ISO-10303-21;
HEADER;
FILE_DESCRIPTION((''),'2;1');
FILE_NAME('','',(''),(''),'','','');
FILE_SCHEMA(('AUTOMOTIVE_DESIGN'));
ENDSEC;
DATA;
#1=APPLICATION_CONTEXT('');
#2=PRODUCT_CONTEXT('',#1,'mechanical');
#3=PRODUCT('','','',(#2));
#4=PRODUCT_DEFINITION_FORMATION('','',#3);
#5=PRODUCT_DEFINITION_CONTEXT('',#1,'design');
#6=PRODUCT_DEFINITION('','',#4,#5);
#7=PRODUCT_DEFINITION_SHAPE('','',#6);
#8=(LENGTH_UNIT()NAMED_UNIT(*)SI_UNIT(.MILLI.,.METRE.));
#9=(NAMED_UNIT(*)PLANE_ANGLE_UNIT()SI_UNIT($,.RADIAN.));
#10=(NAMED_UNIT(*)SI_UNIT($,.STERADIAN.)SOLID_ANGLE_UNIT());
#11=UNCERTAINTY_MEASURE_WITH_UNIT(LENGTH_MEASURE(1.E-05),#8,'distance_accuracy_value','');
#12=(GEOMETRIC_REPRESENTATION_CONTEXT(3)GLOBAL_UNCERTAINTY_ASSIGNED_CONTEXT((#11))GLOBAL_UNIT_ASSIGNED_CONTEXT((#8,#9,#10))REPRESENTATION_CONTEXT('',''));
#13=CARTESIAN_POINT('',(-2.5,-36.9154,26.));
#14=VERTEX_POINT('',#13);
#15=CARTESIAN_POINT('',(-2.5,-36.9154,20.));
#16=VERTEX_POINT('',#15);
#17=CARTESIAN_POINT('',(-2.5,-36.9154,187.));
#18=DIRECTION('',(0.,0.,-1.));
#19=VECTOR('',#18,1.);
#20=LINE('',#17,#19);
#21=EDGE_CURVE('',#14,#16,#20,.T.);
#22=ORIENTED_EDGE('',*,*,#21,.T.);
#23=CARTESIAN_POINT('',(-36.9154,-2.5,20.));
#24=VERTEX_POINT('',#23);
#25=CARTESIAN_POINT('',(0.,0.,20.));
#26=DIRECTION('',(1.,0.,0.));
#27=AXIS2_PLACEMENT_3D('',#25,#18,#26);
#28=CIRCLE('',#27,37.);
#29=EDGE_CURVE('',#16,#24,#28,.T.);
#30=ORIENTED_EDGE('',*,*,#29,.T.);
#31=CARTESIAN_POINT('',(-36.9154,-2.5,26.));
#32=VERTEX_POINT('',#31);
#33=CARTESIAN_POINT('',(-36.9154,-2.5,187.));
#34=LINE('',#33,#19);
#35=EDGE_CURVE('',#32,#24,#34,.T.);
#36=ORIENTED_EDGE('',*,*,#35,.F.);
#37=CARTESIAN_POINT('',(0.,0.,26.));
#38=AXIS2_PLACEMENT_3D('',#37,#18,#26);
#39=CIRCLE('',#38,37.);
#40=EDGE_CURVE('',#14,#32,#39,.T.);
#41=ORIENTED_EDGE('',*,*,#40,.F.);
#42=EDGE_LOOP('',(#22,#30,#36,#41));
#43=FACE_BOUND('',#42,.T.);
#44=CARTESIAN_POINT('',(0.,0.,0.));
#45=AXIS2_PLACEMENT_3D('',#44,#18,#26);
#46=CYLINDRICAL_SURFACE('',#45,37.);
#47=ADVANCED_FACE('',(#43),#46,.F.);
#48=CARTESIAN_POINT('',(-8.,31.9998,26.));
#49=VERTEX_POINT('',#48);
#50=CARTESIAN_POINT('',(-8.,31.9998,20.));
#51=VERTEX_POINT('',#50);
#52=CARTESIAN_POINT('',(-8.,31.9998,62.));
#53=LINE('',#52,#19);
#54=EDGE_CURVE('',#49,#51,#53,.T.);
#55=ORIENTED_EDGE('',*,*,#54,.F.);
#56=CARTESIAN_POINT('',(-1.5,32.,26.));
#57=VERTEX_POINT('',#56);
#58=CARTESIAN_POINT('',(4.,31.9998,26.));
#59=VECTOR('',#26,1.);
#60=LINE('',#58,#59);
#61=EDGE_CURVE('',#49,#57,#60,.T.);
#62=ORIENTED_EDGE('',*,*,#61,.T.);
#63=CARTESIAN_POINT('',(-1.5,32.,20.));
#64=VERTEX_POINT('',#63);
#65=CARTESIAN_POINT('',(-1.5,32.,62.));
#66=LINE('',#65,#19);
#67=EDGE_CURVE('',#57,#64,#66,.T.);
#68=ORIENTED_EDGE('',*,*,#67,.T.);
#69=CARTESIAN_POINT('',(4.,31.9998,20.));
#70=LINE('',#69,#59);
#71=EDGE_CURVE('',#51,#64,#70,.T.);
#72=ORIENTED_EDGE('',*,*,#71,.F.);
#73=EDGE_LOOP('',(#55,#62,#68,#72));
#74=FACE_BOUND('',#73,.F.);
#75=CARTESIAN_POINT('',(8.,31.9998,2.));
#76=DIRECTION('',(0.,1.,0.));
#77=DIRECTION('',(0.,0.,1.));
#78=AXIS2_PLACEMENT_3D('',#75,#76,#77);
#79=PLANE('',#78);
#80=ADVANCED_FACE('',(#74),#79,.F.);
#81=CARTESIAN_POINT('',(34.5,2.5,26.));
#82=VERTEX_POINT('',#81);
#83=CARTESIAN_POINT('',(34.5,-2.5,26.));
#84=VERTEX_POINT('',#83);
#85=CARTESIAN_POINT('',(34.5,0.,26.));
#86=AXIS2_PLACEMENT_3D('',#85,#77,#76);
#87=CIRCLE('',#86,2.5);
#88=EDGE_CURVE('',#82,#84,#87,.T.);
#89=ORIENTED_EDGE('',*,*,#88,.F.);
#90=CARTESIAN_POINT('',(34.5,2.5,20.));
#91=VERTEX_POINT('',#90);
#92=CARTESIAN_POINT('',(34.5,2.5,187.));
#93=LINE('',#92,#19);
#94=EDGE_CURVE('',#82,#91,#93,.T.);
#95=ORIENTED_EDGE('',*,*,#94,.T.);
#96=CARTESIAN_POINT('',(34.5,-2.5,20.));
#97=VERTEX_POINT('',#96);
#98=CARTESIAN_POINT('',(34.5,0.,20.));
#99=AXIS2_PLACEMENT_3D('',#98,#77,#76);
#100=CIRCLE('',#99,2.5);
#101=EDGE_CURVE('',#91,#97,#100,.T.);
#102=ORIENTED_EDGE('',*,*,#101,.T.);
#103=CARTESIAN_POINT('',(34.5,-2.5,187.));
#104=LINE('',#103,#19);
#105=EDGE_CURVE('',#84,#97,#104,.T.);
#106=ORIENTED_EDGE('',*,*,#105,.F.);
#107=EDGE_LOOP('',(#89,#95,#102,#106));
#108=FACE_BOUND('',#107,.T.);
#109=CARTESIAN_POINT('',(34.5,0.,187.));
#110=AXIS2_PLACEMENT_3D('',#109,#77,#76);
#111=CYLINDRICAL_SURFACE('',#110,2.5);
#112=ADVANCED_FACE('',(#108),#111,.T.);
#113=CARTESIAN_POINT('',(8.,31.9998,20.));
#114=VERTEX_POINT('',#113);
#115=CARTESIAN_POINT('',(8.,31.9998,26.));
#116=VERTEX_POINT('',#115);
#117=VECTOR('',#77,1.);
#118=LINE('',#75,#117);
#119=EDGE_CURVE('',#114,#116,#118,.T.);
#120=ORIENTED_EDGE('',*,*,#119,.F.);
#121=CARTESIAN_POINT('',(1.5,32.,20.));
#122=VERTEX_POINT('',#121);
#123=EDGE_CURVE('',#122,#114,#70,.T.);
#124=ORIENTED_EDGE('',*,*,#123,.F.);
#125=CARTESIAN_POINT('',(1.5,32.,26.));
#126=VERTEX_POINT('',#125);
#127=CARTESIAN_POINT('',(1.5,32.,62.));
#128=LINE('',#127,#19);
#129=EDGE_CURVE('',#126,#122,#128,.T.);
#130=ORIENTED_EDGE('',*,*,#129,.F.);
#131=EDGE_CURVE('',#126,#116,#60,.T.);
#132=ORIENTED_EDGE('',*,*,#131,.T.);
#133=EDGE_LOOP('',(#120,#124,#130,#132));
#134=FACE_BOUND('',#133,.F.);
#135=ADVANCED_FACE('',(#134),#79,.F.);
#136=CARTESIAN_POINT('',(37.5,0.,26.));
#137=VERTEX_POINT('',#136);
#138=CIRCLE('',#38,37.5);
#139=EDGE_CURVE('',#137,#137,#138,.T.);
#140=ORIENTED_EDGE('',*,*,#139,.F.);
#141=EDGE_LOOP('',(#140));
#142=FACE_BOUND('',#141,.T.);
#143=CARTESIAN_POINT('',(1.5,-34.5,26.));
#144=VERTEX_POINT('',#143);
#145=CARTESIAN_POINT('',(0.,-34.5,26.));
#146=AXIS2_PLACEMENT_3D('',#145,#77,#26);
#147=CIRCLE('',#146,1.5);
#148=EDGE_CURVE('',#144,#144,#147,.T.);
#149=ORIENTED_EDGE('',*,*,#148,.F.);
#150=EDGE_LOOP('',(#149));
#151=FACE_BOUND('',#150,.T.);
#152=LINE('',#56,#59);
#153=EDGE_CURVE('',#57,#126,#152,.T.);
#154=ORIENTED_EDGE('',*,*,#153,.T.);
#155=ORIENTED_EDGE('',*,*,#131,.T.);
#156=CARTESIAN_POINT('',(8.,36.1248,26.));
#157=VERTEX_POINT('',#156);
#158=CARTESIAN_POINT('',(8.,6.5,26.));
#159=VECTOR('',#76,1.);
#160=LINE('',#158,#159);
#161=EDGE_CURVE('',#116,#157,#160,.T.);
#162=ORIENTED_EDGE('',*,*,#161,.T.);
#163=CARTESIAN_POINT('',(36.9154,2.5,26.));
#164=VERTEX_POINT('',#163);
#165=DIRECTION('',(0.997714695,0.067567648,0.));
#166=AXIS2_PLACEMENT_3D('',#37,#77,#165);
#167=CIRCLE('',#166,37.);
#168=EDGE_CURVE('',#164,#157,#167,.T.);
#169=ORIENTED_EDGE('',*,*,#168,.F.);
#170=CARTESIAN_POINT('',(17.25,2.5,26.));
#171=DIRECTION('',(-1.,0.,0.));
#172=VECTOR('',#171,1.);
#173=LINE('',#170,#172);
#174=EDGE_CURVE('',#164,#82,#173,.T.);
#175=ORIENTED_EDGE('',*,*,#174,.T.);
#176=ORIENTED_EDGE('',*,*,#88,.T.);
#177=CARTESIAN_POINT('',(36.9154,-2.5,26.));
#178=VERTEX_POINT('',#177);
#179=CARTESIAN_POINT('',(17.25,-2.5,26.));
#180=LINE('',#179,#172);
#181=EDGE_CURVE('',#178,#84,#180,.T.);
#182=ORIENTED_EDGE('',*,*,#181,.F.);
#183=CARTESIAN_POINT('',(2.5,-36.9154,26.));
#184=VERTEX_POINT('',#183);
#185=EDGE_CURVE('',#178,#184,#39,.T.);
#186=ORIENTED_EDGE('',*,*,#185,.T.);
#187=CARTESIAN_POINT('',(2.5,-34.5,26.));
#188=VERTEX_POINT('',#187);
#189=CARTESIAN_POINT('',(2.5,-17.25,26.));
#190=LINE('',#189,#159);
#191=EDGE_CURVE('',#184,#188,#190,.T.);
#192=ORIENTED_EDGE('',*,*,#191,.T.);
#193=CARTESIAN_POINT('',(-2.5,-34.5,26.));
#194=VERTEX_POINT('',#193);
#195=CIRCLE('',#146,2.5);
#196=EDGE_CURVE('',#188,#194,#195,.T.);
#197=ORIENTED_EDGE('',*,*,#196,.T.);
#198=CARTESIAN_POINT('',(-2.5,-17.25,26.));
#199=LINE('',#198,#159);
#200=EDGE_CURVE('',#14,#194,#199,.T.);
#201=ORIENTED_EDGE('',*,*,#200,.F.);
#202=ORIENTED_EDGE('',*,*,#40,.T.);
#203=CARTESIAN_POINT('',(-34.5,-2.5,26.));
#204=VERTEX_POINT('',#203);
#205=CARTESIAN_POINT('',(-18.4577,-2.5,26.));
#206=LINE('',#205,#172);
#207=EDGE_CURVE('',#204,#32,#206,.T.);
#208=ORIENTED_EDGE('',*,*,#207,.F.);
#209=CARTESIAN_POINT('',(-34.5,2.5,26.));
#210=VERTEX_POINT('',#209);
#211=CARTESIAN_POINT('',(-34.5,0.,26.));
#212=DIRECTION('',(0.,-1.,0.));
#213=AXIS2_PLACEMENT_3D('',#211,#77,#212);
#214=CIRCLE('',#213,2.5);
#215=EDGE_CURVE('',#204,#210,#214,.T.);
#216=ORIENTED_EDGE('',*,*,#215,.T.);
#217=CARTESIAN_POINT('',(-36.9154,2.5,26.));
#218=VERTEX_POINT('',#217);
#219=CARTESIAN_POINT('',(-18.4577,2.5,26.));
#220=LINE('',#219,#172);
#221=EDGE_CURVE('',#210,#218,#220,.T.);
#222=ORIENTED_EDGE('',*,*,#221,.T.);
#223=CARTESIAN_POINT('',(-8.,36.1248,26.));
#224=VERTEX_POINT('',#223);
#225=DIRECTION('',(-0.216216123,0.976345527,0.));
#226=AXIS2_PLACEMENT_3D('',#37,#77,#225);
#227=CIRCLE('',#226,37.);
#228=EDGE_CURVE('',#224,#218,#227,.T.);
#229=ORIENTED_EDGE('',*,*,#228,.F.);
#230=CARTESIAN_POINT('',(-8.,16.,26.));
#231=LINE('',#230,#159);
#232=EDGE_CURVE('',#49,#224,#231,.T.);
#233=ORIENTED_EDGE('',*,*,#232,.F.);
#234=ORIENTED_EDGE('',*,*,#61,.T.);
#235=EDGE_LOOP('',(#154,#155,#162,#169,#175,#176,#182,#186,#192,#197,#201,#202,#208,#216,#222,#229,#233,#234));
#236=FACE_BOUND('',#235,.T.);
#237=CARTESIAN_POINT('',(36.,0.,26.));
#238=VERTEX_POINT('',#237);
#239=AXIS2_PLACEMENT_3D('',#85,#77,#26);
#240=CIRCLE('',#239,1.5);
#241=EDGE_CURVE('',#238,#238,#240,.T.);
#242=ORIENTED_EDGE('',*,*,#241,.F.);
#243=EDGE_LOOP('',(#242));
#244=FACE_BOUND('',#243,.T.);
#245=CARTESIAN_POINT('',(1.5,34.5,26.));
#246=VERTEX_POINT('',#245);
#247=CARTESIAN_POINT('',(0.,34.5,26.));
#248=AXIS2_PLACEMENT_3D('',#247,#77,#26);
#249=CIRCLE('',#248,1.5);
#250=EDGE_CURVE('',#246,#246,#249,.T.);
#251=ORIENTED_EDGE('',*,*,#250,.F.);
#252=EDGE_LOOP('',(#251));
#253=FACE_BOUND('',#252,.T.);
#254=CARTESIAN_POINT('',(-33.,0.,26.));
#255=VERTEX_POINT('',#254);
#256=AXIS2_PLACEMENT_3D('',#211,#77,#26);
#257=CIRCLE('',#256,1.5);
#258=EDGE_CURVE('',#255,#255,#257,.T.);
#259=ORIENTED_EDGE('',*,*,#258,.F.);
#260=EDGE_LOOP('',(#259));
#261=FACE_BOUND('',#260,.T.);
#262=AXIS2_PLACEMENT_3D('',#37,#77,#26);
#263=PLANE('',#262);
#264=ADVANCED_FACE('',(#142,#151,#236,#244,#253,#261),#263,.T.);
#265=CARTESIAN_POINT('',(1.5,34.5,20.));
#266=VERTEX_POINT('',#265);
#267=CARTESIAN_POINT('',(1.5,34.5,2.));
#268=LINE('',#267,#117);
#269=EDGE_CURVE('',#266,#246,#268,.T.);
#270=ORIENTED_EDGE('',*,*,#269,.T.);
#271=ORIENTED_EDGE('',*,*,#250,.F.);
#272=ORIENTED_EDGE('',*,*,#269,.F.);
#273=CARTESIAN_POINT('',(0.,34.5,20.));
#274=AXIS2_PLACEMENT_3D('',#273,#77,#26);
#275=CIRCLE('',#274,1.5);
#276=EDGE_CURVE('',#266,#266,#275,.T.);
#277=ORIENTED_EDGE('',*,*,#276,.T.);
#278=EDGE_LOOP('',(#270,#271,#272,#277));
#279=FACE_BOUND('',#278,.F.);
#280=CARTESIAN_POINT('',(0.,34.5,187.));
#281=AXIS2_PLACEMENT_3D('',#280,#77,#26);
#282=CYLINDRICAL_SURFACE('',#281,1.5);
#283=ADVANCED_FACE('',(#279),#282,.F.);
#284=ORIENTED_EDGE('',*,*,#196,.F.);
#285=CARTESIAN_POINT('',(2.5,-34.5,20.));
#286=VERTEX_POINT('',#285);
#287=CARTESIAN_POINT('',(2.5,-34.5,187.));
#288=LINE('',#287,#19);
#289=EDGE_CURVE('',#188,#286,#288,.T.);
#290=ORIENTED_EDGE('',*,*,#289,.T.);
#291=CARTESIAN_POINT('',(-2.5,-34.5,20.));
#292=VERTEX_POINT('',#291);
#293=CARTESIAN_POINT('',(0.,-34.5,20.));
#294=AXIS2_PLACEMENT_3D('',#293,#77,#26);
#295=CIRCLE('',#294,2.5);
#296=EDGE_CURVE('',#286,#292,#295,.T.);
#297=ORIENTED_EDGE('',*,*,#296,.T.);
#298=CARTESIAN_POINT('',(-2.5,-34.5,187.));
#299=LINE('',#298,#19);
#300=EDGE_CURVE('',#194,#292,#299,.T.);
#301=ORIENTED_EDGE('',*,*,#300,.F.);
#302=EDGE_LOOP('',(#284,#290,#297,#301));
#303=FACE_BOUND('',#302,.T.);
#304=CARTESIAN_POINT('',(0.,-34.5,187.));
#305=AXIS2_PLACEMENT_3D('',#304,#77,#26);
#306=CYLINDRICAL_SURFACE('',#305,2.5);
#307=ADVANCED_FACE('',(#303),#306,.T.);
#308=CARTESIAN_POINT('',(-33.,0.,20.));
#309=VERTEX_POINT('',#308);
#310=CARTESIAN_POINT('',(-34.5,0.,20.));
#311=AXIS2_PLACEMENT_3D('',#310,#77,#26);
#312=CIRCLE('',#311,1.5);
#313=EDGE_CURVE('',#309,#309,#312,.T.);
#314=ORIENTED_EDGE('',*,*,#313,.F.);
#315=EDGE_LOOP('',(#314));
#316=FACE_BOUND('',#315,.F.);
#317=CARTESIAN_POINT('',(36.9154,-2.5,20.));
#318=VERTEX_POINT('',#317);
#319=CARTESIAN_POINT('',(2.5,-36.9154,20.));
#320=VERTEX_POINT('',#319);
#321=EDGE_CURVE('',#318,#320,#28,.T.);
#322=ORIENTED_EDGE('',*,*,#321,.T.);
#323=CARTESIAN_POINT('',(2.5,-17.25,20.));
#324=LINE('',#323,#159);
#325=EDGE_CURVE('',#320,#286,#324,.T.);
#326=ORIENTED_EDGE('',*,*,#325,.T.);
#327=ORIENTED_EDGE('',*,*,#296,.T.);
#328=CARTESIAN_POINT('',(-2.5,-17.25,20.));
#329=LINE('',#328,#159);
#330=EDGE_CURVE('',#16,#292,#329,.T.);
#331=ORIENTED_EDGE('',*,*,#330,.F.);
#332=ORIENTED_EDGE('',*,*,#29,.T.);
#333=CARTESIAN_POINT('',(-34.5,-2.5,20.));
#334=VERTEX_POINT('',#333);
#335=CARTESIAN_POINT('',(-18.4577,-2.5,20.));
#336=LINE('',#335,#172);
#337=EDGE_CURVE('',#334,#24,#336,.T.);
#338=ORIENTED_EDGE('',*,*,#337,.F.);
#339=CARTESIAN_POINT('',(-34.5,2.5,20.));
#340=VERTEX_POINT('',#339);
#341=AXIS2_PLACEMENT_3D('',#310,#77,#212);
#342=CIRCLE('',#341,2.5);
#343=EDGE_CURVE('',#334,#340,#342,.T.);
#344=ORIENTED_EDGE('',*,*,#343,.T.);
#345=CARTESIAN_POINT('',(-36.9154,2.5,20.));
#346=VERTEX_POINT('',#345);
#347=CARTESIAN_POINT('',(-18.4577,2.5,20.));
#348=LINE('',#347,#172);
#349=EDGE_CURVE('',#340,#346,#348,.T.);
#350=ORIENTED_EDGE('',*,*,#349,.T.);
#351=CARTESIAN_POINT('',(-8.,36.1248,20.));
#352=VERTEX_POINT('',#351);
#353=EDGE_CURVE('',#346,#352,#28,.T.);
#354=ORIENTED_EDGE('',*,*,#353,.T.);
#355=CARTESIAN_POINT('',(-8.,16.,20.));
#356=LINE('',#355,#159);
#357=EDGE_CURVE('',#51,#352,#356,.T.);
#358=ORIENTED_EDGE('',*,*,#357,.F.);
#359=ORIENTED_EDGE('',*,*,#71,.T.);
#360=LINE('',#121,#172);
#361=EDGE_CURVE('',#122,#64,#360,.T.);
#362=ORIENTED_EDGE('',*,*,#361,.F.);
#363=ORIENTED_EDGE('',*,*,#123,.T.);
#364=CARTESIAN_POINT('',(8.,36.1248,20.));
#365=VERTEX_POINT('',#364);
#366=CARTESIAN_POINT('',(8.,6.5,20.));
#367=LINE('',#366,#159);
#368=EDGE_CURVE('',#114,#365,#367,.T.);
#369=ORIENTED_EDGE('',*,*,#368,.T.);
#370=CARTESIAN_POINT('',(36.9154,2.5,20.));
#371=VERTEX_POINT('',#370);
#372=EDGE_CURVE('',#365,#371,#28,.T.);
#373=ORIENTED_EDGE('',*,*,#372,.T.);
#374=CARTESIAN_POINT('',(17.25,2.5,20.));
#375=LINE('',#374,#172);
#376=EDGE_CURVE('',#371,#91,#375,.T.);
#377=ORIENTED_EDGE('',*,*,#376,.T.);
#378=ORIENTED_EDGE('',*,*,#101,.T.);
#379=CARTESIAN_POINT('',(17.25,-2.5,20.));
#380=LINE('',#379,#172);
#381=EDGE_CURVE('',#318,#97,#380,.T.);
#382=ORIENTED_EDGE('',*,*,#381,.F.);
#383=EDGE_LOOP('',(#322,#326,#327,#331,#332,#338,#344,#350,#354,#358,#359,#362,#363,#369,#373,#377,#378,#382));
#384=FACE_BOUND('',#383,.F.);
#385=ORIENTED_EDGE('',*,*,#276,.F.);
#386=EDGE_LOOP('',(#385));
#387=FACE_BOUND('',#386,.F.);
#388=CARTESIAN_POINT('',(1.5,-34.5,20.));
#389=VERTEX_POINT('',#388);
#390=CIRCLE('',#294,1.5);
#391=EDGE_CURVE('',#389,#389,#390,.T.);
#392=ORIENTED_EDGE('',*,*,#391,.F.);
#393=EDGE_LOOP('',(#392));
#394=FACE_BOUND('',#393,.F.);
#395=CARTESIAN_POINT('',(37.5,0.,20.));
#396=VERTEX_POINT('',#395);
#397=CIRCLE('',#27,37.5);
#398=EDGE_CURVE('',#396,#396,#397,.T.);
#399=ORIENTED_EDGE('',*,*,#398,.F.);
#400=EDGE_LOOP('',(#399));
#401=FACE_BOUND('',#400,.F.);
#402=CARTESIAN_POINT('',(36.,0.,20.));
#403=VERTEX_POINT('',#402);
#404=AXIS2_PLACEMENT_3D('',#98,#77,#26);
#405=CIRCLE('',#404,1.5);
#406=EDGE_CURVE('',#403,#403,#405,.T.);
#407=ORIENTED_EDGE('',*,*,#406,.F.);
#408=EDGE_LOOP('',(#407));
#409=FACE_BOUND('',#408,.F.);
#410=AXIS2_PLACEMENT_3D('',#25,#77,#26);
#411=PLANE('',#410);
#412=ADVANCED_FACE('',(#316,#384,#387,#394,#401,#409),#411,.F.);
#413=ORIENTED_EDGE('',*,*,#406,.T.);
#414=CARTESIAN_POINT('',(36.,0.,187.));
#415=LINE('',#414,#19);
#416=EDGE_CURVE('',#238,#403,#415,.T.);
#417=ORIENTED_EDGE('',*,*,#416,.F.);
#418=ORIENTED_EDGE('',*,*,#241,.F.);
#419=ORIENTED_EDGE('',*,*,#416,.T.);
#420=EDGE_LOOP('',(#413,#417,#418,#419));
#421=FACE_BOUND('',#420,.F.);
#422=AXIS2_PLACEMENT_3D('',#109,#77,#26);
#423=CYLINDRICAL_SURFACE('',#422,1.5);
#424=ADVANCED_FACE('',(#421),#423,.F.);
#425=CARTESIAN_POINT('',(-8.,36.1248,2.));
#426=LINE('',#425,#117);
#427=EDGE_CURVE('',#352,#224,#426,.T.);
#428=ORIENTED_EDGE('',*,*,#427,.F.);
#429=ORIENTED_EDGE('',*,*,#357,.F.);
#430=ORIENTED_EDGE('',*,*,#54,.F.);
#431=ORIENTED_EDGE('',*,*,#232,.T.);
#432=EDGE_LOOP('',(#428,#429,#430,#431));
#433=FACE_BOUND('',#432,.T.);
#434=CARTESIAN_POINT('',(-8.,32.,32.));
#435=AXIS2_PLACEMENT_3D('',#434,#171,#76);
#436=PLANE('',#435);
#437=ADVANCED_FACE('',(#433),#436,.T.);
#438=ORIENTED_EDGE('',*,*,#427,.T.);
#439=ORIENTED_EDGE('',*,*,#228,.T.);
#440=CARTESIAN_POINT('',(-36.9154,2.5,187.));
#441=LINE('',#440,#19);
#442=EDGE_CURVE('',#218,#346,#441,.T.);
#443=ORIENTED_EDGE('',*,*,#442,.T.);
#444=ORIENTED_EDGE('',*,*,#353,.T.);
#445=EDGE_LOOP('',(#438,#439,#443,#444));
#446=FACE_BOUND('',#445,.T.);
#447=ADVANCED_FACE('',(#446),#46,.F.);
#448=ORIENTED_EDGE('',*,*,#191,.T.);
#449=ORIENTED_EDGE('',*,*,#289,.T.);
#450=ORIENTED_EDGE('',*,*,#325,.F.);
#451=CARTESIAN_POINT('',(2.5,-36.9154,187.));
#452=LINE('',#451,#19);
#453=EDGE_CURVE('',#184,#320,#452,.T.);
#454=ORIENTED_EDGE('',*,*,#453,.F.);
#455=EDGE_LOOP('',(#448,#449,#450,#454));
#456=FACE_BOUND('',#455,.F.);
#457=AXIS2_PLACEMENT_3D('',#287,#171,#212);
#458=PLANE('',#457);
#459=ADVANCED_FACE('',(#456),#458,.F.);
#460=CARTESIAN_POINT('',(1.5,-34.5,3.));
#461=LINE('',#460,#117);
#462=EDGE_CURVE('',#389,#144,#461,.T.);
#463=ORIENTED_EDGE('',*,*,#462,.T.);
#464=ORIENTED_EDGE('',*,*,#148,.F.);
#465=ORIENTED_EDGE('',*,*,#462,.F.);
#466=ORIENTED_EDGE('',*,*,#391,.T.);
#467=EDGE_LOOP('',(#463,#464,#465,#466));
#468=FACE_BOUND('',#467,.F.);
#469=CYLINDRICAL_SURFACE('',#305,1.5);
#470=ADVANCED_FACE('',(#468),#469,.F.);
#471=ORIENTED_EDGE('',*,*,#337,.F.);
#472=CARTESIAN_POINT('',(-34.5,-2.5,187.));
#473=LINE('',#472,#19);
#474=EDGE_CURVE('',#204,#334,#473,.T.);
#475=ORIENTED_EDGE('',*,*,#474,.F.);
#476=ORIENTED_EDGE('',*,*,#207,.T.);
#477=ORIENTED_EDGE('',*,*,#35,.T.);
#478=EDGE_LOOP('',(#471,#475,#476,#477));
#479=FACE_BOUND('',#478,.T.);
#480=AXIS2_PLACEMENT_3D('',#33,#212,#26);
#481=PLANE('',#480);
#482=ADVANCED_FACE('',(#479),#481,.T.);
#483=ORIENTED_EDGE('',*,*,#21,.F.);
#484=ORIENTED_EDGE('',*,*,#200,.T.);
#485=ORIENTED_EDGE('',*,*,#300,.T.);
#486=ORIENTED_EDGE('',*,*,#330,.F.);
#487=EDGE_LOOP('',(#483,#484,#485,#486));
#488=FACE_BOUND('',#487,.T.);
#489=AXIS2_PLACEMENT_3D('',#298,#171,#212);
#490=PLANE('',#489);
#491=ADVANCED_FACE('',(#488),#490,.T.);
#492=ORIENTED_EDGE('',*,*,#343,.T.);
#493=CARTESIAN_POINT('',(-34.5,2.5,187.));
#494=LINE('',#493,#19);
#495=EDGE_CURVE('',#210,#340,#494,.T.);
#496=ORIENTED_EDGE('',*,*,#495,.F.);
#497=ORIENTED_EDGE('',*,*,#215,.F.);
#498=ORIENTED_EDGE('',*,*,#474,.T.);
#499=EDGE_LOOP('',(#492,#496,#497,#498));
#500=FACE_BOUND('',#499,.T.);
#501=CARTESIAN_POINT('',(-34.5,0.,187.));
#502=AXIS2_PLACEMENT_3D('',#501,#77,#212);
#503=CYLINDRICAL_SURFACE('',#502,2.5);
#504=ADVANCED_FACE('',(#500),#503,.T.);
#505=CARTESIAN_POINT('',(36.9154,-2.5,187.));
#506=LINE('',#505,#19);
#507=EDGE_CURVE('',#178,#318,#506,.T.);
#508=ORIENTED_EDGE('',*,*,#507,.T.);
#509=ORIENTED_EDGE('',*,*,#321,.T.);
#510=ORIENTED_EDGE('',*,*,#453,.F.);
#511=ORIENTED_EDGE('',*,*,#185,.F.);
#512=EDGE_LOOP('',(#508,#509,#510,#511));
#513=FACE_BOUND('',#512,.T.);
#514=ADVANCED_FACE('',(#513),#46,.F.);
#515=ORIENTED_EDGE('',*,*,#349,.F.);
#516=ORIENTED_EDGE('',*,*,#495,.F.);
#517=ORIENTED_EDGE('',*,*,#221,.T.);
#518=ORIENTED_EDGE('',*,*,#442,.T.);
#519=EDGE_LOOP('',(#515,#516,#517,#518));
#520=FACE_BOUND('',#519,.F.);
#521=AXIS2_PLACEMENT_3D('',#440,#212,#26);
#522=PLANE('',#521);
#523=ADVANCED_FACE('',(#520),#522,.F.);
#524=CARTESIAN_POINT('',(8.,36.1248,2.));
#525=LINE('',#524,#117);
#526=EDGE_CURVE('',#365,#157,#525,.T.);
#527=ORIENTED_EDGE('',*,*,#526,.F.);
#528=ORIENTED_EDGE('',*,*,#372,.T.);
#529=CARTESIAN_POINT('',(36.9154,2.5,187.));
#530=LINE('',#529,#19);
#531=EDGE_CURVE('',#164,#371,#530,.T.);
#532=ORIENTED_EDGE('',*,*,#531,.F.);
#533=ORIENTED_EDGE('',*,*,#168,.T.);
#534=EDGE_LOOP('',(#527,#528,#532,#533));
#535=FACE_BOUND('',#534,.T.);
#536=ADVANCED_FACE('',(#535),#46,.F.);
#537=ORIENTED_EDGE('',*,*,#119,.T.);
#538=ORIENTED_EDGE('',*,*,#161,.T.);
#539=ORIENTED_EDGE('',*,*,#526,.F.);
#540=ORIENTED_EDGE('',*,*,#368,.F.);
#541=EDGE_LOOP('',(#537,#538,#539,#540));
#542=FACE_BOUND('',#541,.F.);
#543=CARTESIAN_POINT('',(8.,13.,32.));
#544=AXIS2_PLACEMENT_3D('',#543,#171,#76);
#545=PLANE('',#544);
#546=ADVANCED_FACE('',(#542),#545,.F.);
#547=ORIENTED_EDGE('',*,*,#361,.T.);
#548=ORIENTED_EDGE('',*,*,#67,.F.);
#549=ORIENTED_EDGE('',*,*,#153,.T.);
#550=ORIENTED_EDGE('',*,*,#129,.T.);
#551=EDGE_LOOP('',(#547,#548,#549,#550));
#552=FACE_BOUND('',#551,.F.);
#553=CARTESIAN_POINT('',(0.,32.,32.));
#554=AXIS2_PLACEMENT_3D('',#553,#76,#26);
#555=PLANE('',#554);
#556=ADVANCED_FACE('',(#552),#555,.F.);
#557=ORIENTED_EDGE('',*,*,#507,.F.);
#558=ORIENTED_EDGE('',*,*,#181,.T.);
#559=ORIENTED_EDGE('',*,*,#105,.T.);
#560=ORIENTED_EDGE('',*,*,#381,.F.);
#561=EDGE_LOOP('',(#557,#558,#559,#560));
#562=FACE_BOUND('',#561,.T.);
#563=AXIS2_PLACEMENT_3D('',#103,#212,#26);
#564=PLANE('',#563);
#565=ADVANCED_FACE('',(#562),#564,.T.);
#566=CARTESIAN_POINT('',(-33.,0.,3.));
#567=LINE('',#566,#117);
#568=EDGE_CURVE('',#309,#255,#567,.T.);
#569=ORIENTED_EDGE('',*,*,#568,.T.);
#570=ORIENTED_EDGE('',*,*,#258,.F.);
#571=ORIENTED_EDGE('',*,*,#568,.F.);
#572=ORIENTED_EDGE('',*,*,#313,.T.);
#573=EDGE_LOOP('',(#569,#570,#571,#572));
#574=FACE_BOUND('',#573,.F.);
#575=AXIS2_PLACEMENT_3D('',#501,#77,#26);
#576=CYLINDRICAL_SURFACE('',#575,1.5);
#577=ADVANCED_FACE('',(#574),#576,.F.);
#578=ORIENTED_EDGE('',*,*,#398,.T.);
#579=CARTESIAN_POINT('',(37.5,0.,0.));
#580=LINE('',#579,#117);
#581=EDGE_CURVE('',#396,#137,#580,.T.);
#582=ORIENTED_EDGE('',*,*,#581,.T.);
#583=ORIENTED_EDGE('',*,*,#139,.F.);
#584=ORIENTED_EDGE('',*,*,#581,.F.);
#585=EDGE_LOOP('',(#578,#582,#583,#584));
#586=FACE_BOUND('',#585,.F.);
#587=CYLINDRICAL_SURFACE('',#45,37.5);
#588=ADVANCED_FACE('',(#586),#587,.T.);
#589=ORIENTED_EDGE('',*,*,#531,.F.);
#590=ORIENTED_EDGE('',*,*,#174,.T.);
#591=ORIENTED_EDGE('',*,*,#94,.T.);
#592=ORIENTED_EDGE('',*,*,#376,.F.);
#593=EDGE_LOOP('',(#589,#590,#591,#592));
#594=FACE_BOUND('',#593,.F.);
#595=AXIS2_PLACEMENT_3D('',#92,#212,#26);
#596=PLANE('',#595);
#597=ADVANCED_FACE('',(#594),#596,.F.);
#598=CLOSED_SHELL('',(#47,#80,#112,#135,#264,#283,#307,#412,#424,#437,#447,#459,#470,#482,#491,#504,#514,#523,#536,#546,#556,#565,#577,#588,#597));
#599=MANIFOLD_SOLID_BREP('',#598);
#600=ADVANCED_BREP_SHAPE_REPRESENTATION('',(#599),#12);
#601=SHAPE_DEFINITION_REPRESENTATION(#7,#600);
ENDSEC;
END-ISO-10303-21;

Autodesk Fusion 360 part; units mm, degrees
sketch "Esboço2" plane through (0, 0, 0) normal (0, 0, 1) x (1, 0, 0)
  circle A0 centre (0, 0) radius 37.5
  circle A1 centre (0, 0) radius 37
  dimension "d6" = 75
  dimension "d7" = 74
extrude "Extrusão2" add sketch "Esboço2" along normal blind 190
ref_plane "Plano de trabalho9" through (0, 0, 187) normal (0, 0, 1) x (1, 0, 0)
sketch "Esboço10" plane through (0, 0, 187) normal (0, 0, 1) x (1, 0, 0)
  circle A0 centre (0, 0) radius 34.5 construction
  line L0 (0, 0) -> (-68.1762, 0) construction
  line L1 (0, 0) -> (60, 0) construction
  line L2 (0, 0) -> (0, 45) construction
  line L3 (0, 0) -> (0, -43.1659) construction
  circle A1 centre (34.5, 0) radius 1.5
  line L4 (3, -43) -> (3, -42)
  circle A2 centre (0, 34.5) radius 1.5
  circle A3 centre (-34.5, 0) radius 1.5
  circle A4 centre (0, -34.5) radius 1.5
  arc A5 (34.5, 2.5) -> (34.5, -2.5) centre (34.5, 0) ccw
  arc A6 (-2.5, 34.5) -> (2.5, 34.5) centre (0, 34.5) ccw
  arc A7 (-34.5, -2.5) -> (-34.5, 2.5) centre (-34.5, 0) ccw
  arc A8 (2.5, -34.5) -> (-2.5, -34.5) centre (0, -34.5) ccw
  circle A9 centre (0, 0) radius 37
  line L5 (-36.9154, 2.5) -> (-34.4093, 2.5)
  line L6 (-36.9154, -2.5) -> (-34.4093, -2.5)
  line L7 (34.5, 2.5) -> (36.9154, 2.5)
  line L8 (34.5, -2.5) -> (36.9154, -2.5)
  line L9 (2.5, 36.9154) -> (2.5, 34.4093)
  line L10 (-2.5, 36.9154) -> (-2.5, 34.4093)
  line L11 (-2.5, -34.4093) -> (-2.5, -36.9154)
  line L12 (2.5, -34.4093) -> (2.5, -36.9154)
  dimension "d82" = 69
  dimension "d83" = 3
  dimension "d84" = 2.5
  dimension "d85" = 2.5
  dimension "d87" = 360
  dimension "d89" = 360
  dimension "d90" = 2.5
extrude "Extrusão12" add sketch "Esboço10" against normal blind 184 contours A5 A9 L7 L8 | A6 A9 L9 L10 | A8 A9 L11 L12 | A7 A9 L5 L6
thread "Rosca3"
ref_plane "Plano de trabalho3" through (0, 0, 32) normal (0, 0, 1) x (1, 0, 0)
sketch "Esboço3" plane through (0, 0, 32) normal (0, 0, 1) x (1, 0, 0)
  line L0 (0, 0) -> (0, 37) construction
  line L1 (34.2491, 14) -> (-34.2491, 14)
  circle A0 centre (0, 0) radius 37
  line L2 (31.1288, 20) -> (-31.1288, 20)
  line L3 (32.8634, 17) -> (-32.8634, 17)
  circle A1 centre (0, 0) radius 50
  circle A2 centre (0, 0) radius 37.5
  line L4 (-8, 0) -> (8, 0)
  line L5 (8, 0) -> (8, 36.1248)
  line L6 (-8, 0) -> (-8, 36.1248)
  circle A3 centre (0, 34.5) radius 1.5
  line L7 (1.5, 32.5) -> (1.5, 0)
  arc A4 (-2.5, 34.5) -> (2.5, 34.5) centre (0, 34.5) ccw
  line L8 (-1.5, 32.5) -> (-1.5, 0)
  line L9 (27.8634, 24.3441) -> (27.8634, 11)
  line L10 (27.8634, 11) -> (35.327, 11)
  line L11 (-27.8634, 11) -> (-35.327, 11)
  line L12 (-27.8634, 24.3441) -> (-27.8634, 11)
  line L13 (-30.4631, 21) -> (30.4631, 21)
  line L14 (-34.641, 13) -> (34.641, 13)
  line L15 (0, 32) -> (8, 32)
  line L16 (0, 32) -> (-8, 32)
  dimension "d12" = 6
  dimension "d15" = 3
  dimension "d17" = 75
  dimension "d18" = 100
  dimension "d41" = 14
  dimension "d51" = 8
  dimension "d52" = 16
  dimension "d99" = 3
  dimension "d100" = 2.5
  dimension "d115" = 6.5
  dimension "d123" = 5
  dimension "d124" = 6
  dimension "d143" = 4
  dimension "d144" = 4
extrude "Extrusão21" add sketch "Esboço3" along normal blind 6 and the other way blind 6 contours L1 A0 L9 L14 | L1 A0 L3 L9 | A0 L9 L10 L14 | A0 L2 L3 L9 | A0 L2 L9 L13 | A0 L9 L13 | A0 L11 L12 L14 | L1 A0 L12 L14 | L1 A0 L3 L12 | A0 L2 L3 L12 | A0 L12 L13 | A0 L2 L12 L13
sketch "Esboço18" plane through (-27.8634, 0, 0) normal (1, 0, 0) x (0, 1, 0)
  line L0 (24.3441, 26) -> (24.3441, 38)
  line L1 (24.3441, 38) -> (11, 38)
  line L2 (11, 38) -> (11, 26)
  line L3 (11, 26) -> (24.3441, 26)
  circle A0 centre (17, 32) radius 4
  point P0 (11, 32)
  dimension "d166" = 8
  dimension "d167" = 6
  dimension "d168" = 6
ref_plane "Plano de trabalho11" through (0, 0, 0) normal (1, 0, 0) x (0, 1, 0)
extrude "Extrusão23" cut sketch "Esboço18" against normal blind 15 contours A0
extrude "Extrusão7" add sketch "Esboço3" along normal blind 30 and the other way blind 30 contours L1 L5 L7 L14 | L1 L3 L5 L7 | L4 L5 L7 L14 | L2 L3 L5 L7 | L1 L6 L8 L14 | L1 L3 L6 L8 | L2 L5 L7 L13 | L2 L3 L6 L8 | L4 L6 L8 L14 | L5 L7 L13 L15 | A0 L5 L6 L7 A4 L8 L15 L16 | L2 L6 L8 L13 | L6 L8 L13 L16 | L7 A4 L15 | A4 L8 L16
sketch "Esboço19" plane through (27.8634, 0, 0) normal (-1, 0, 0) x (0, -1, 0)
  line L0 (-11, 26) -> (-11, 38)
  line L1 (-11, 38) -> (-24.3441, 38)
  line L2 (-24.3441, 38) -> (-24.3441, 26)
  line L3 (-24.3441, 26) -> (-11, 26)
extrude "Extrusão24" cut sketch "Esboço18" along normal blind 80 contours A0
sketch "Esboço11" plane through (8, 0, 0) normal (1, 0, 0) x (0, 1, 0)
  line L0 (0, 2) -> (36.1248, 2)
  line L1 (36.1248, 2) -> (36.1248, 62)
  line L2 (36.1248, 62) -> (0, 62)
  line L3 (0, 62) -> (0, 2)
  circle A0 centre (17, 32) radius 3
  circle A1 centre (17, 32) radius 9.5
  circle A2 centre (17, 32) radius 12.5
  line L4 (36.1248, 32) -> (36.1248, -5) construction
  line L5 (0, 32) -> (36.1248, 32)
  line L6 (30.1248, 2) -> (8.3278, 22.9976)
  line L7 (30.1248, 62) -> (8.3278, 41.0024)
  line L8 (30.1248, 2) -> (31.9998, 2)
  line L9 (31.9998, 2) -> (31.9998, 32)
  line L10 (30.1248, 62) -> (31.9998, 62)
  line L11 (31.9998, 62) -> (31.9998, 32)
  circle A3 centre (17, 32) radius 4
  point P0 (14, 32)
  point P1 (20, 32)
  dimension "d106" = 6
  dimension "d107" = 19
  dimension "d109" = 25
  dimension "d110" = 6
  dimension "d147" = 1.875
extrude "Extrusão13" cut sketch "Esboço11" against normal blind 16 contours L0 L3 A2 L5 L6 | L0 A2 L5 L6 L8 L9 | L2 L3 A2 L5 L7 | A1 A2 L5 | A1 A2 L5 | L2 A2 L5 L7 L10 L11 | A1 L5 A3 | A1 L5 A3 | A0 L5 A3 | A0 L5 A3 | A0 L5 | A0 L5
ref_plane "Plano de trabalho4" through (0, 0, 150) normal (0, 0, 1) x (1, 0, 0)
sketch "Esboço4" plane through (0, 0, 150) normal (0, 0, 1) x (1, 0, 0)
  circle A0 centre (0, 0) radius 37
  circle A1 centre (0, 0) radius 50
  circle A2 centre (0, 0) radius 37.5
  line L0 (-20, -31.1288) -> (-20, 31.1288)
  line L1 (-17, -32.8634) -> (-17, 32.8634)
  line L2 (-14, -34.2491) -> (-14, 34.2491)
  line L3 (0, 8) -> (0, -8)
  line L4 (0, 8) -> (-36.1248, 8)
  line L5 (0, -8) -> (-36.1248, -8)
  line L6 (0, 0) -> (-37, 0) construction
  circle A3 centre (-34.5, 0) radius 1.5
  line L7 (0, 1.5) -> (-32.5, 1.5)
  arc A4 (-34.5, -2.5) -> (-34.5, 2.5) centre (-34.5, 0) ccw
  line L8 (0, -1.5) -> (-32.5, -1.5)
  line L9 (-24.3441, -27.8634) -> (-11, -27.8634)
  line L10 (-11, -27.8634) -> (-11, -35.327)
  line L11 (-24.3441, 27.8634) -> (-11, 27.8634)
  line L12 (-11, 27.8634) -> (-11, 35.327)
  line L13 (-13, 34.641) -> (-13, -34.641)
  line L14 (-21, 30.4631) -> (-21, -30.4631)
  line L15 (-32, 0) -> (-32, 8)
  line L16 (-32, 0) -> (-32, -8)
  dimension "d28" = 75
  dimension "d29" = 100
  dimension "d38" = 14
  dimension "d39" = 6
  dimension "d40" = 3
  dimension "d43" = 16
  dimension "d44" = 8
  dimension "d101" = 3
  dimension "d102" = 2.5
  dimension "d116" = 6.5
  dimension "d135" = 6
  dimension "d136" = 5
  dimension "d145" = 4
  dimension "d146" = 4
extrude "Extrusão25" add sketch "Esboço4" along normal blind 6 and the other way blind 6 contours A0 L11 L12 L13 | A0 L9 L10 L13 | A0 L2 L11 L13 | A0 L2 L9 L13 | A0 L1 L2 L11 | A0 L1 L2 L9 | A0 L0 L1 L11 | A0 L0 L1 L9 | A0 L0 L11 L14 | A0 L0 L9 L14 | A0 L11 L14 | A0 L9 L14
sketch "Esboço20" plane through (0, 27.8634, 0) normal (0, -1, 0) x (1, 0, 0)
  line L0 (-11, 144) -> (-11, 156)
  line L1 (-11, 156) -> (-24.3441, 156)
  line L2 (-24.3441, 156) -> (-24.3441, 144)
  line L3 (-24.3441, 144) -> (-11, 144)
  circle A0 centre (-17, 150) radius 4
  dimension "d179" = 8
  dimension "d180" = 6
  dimension "d182" = 6
extrude "Extrusão26" cut sketch "Esboço20" against normal blind 15 contours A0
sketch "Esboço21" plane through (0, -27.8634, 0) normal (0, 1, 0) x (-1, 0, 0)
  line L0 (24.3441, 144) -> (24.3441, 156)
  line L1 (24.3441, 156) -> (11, 156)
  line L2 (11, 156) -> (11, 144)
  line L3 (11, 144) -> (24.3441, 144)
  circle A0 centre (17, 150) radius 4
  dimension "d185" = 8
  dimension "d186" = 6
  dimension "d187" = 6
extrude "Extrusão27" cut sketch "Esboço21" against normal blind 15 contours A0
extrude "Extrusão6" add sketch "Esboço4" along normal blind 30 and the other way blind 30 contours L2 L4 L7 L13 | L3 L4 L7 L13 | L3 L5 L8 L13 | L2 L5 L8 L13 | L1 L2 L4 L7 | L1 L2 L5 L8 | L0 L1 L4 L7 | L0 L1 L5 L8 | L0 L4 L7 L14 | L0 L5 L8 L14 | A0 L4 L5 L7 A4 L8 L15 L16 | L4 L7 L14 L15 | L5 L8 L14 L16 | L7 A4 L15 | A4 L8 L16
sketch "Esboço13" plane through (0, -8, 0) normal (0, -1, 0) x (1, 0, 0)
  line L0 (0, 120) -> (0, 180)
  line L1 (0, 180) -> (-36.1248, 180)
  line L2 (-36.1248, 180) -> (-36.1248, 120)
  line L3 (-36.1248, 120) -> (0, 120)
  circle A0 centre (-17, 150) radius 3
  circle A1 centre (-17, 150) radius 9.5
  circle A2 centre (-17, 150) radius 12.5
  line L4 (-36.1248, 150) -> (-36.1248, 198.4836) construction
  line L5 (-30.1248, 180) -> (-6.6704, 157.4058)
  line L6 (0, 150) -> (-36.1248, 150)
  line L7 (-30.1248, 120) -> (-6.6704, 142.5942)
  line L8 (-30.1248, 180) -> (-31.9998, 180)
  line L9 (-31.9998, 180) -> (-31.9998, 150)
  line L10 (-30.1248, 120) -> (-31.9998, 120)
  line L11 (-31.9998, 120) -> (-31.9998, 150)
  point P0 (-14, 150)
  point P1 (-20, 150)
  dimension "d117" = 6
  dimension "d118" = 19
  dimension "d119" = 25
  dimension "d120" = 6
  dimension "d148" = 1.875
extrude "Extrusão14" cut sketch "Esboço13" against normal blind 16 contours L0 L3 A2 L6 L7 | L0 L1 A2 L5 L6 | L3 A2 L6 L7 L10 L11 | A1 A2 L6 | A1 A2 L6 | L1 A2 L5 L6 L8 L9 | A0 A1 L6 | A0 A1 L6 | A0 L6 | A0 L6
ref_plane "Plano de trabalho5" through (0, 0, 0) normal (1, 0, 0) x (0, 1, 0)
ref_plane "Plano de trabalho6" through (0, 0, 0) normal (0, 1, 0) x (0, 0, 1)
ref_plane "Plano de trabalho7" through (0, 0, 134.3) normal (0, 0, 1) x (1, 0, 0)
sketch "Esboço8" plane through (0, 0, 134.3) normal (0, 0, 1) x (1, 0, 0)
  line L0 (46.3444, 0) -> (0, 0) construction
  line L1 (8, 36.1248) -> (8, -36.1248)
  line L2 (-8, -36.1248) -> (-8, 36.1248)
  circle A0 centre (0, 0) radius 37
  line L3 (0, 0) -> (0, 37) construction
  circle A1 centre (0, 34.5) radius 1.5
  circle A2 centre (0, -34.5) radius 1.5
  dimension "d72" = 8
  dimension "d73" = 8
  dimension "d95" = 2.5
  dimension "d96" = 3
extrude "Extrusão10" add sketch "Esboço8" along normal blind 2 contours L1 L2 A0
ref_plane "Plano de trabalho8" through (0, 0, 45.7) normal (0, 0, 1) x (1, 0, 0)
sketch "Esboço9" plane through (0, 0, 45.7) normal (0, 0, 1) x (1, 0, 0)
  line L0 (0, 0) -> (-37, 0) construction
  line L1 (-36.1248, 8) -> (36.1248, 8)
  line L2 (-36.1248, -8) -> (36.1248, -8)
  circle A0 centre (0, 0) radius 37
  circle A1 centre (-34.5, 0) radius 1.5
  line L3 (0, 0) -> (0, 43.2459) construction
  circle A2 centre (34.5, 0) radius 1.5
  dimension "d77" = 8
  dimension "d78" = 8
  dimension "d97" = 3
  dimension "d98" = 2.5
extrude "Extrusão11" add sketch "Esboço9" along normal blind 2 contours L1 L2 A0
ref_plane "Plano de trabalho10" through (8, 18.0624, 32) normal (1, 0, 0) x (0, 1, 0)
sketch "Esboço16" plane through (-31.9998, 0, 0) normal (1, 0, 0) x (0, 1, 0)
  line L0 (1.5, 180) -> (1.5, 120)
  line L1 (1.5, 120) -> (8, 120)
  line L2 (8, 120) -> (8, 180)
  line L3 (8, 180) -> (1.5, 180)
  line L4 (4.75, 180) -> (4.75, 120) construction
  circle A0 centre (4.75, 170) radius 1.5
  circle A1 centre (4.75, 130) radius 1.5
  line L5 (8, 150) -> (-12.335, 150) construction
  line L6 (0, 2.5) -> (0, 20)
  circle A2 centre (-4.75, 170) radius 1.5
  circle A3 centre (-4.75, 130) radius 1.5
  dimension "d149" = 3
  dimension "d150" = 3
  dimension "d151" = 40
  dimension "d152" = 20
extrude "Extrusão19" cut sketch "Esboço16" against normal blind 10 contours A0 | A1 | A2 | A3
sketch "Esboço17" plane through (0, 31.9998, 0) normal (0, -1, 0) x (1, 0, 0)
  line L0 (1.5, 62) -> (1.5, 2)
  line L1 (1.5, 2) -> (8, 2)
  line L2 (8, 2) -> (8, 62)
  line L3 (8, 62) -> (1.5, 62)
  line L4 (4.75, 2) -> (4.75, 62) construction
  line L5 (8, 32) -> (-12, 32) construction
  circle A0 centre (4.75, 52) radius 1.5
  circle A1 centre (4.75, 12) radius 1.5
  line L6 (0, 1.75) -> (0, 22.5)
  circle A2 centre (-4.75, 12) radius 1.5
  circle A3 centre (-4.75, 52) radius 1.5
  dimension "d155" = 3
  dimension "d156" = 3
  dimension "d157" = 40
  dimension "d158" = 20
extrude "Extrusão20" cut sketch "Esboço17" against normal blind 10 contours A0 | A1 | A2 | A3
thread "Rosca4"
thread "Rosca5"
sketch "Esboço22" plane through (0, 0, 136.3) normal (0, 0, 1) x (-1, 0, 0)
  line L0 (2.5, 36.9154) -> (2.5, 34.5)
  arc A0 (-2.5, 34.5) -> (2.5, 34.5) centre (0, 34.5) ccw
  line L1 (-2.5, 34.5) -> (-2.5, 36.9154)
  arc A1 (-2.5, 36.9154) -> (-8, 36.1248) centre (0, 0) ccw
  line L2 (-8, 36.1248) -> (-8, -36.1248)
  arc A2 (-8, -36.1248) -> (-2.5, -36.9154) centre (0, 0) ccw
  line L3 (-2.5, -36.9154) -> (-2.5, -34.5)
  arc A3 (2.5, -34.5) -> (-2.5, -34.5) centre (0, -34.5) ccw
  line L4 (2.5, -34.5) -> (2.5, -36.9154)
  arc A4 (2.5, -36.9154) -> (8, -36.1248) centre (0, 0) ccw
  line L5 (8, -36.1248) -> (8, 36.1248)
  arc A5 (8, 36.1248) -> (2.5, 36.9154) centre (0, 0) ccw
  line L6 (0, 0) -> (-21, 0) construction
  line L7 (0, 0) -> (0, -18) construction
  line L8 (2, -14.5) -> (-2, -14.5)
  arc A6 (-2, -14.5) -> (-2, -21.5) centre (-2, -18) ccw
  line L9 (-2, -21.5) -> (2, -21.5)
  arc A7 (2, -21.5) -> (2, -14.5) centre (2, -18) ccw
  line L10 (2, -18) -> (-2, -18) construction
  arc A8 (-2, 21.5) -> (-2, 14.5) centre (-2, 18) ccw
  line L11 (2, 14.5) -> (-2, 14.5)
  arc A9 (2, 14.5) -> (2, 21.5) centre (2, 18) ccw
  line L12 (-2, 21.5) -> (2, 21.5)
  circle A10 centre (0, 9.5) radius 1.5
  line L13 (2, 18) -> (-2, 18) construction
  circle A11 centre (0, 26.5) radius 1.5
  circle A12 centre (0, -9.5) radius 1.5
  circle A13 centre (0, -26.5) radius 1.5
  point P0 (0, -18)
  dimension "d191" = 18
  dimension "d195" = 2
  dimension "d196" = 3.5
  dimension "d204" = 3
  dimension "d205" = 8.5
extrude "Extrusão28" cut sketch "Esboço22" against normal blind 5 contours L8 A6 L9 A7 | A8 L11 A9 L12 | A10 | A11 | A12 | A13
sketch "Esboço23" plane through (0, 0, 45.7) normal (0, 0, -1) x (1, 0, 0)
  line L0 (36.9154, -2.5) -> (34.5, -2.5)
  arc A0 (34.5, 2.5) -> (34.5, -2.5) centre (34.5, 0) ccw
  line L1 (34.5, 2.5) -> (36.9154, 2.5)
  arc A1 (36.9154, 2.5) -> (36.1248, 8) centre (0, 0) ccw
  line L2 (36.1248, 8) -> (-36.1248, 8)
  arc A2 (-36.1248, 8) -> (-36.9154, 2.5) centre (0, 0) ccw
  line L3 (-36.9154, 2.5) -> (-34.5, 2.5)
  arc A3 (-34.5, -2.5) -> (-34.5, 2.5) centre (-34.5, 0) ccw
  line L4 (-34.5, -2.5) -> (-36.9154, -2.5)
  arc A4 (-36.9154, -2.5) -> (-36.1248, -8) centre (0, 0) ccw
  line L5 (-36.1248, -8) -> (36.1248, -8)
  arc A5 (36.1248, -8) -> (36.9154, -2.5) centre (0, 0) ccw
  line L6 (0, 0) -> (0, -19) construction
  line L7 (0, 0) -> (18, 0)
  line L8 (14.5, 2.5) -> (14.5, -2.5)
  arc A6 (14.5, -2.5) -> (21.5, -2.5) centre (18, -2.5) ccw
  line L9 (21.5, -2.5) -> (21.5, 2.5)
  arc A7 (21.5, 2.5) -> (14.5, 2.5) centre (18, 2.5) ccw
  line L10 (18, 2.5) -> (18, -2.5) construction
  line L11 (-14.5, 2.5) -> (-14.5, -2.5)
  arc A8 (-14.5, 2.5) -> (-21.5, 2.5) centre (-18, 2.5) ccw
  line L12 (-21.5, -2.5) -> (-21.5, 2.5)
  arc A9 (-21.5, -2.5) -> (-14.5, -2.5) centre (-18, -2.5) ccw
  circle A10 centre (9.5, 0) radius 1.5
  circle A11 centre (26.5, 0) radius 1.5
  circle A12 centre (-9.5, 0) radius 1.5
  circle A13 centre (-26.5, 0) radius 1.5
  point P0 (18, 0)
  dimension "d199" = 3.5
  dimension "d200" = 5
  dimension "d201" = 18
  dimension "d206" = 3
  dimension "d207" = 8.5
extrude "Extrusão29" cut sketch "Esboço23" against normal blind 10 contours L7 A10 | L8 A6 L9 A7 | L7 A10 | L11 A8 L12 A9 | A11 | A12 | A13
ref_plane "Plano de trabalho12" through (0, 0, 106.3) normal (0, 0, 1) x (1, 0, 0)
sketch "Esboço24" plane through (0, 0, 106.3) normal (0, 0, 1) x (1, 0, 0)
  line L0 (0, 0) -> (28.1868, 0) construction
  line L1 (16, 0) -> (16, 33.3617)
  circle A0 centre (0, 0) radius 37
  line L2 (16, 0) -> (16, -33.3617)
  line L3 (0, 0) -> (0, 19.3) construction
  line L4 (-16, 0) -> (-16, 33.3617)
  line L5 (-16, 0) -> (-16, -33.3617)
  line L6 (-2, 6.8) -> (2, 6.8)
  arc A1 (2, 6.8) -> (2, 31.8) centre (2, 19.3) ccw
  line L7 (2, 31.8) -> (-2, 31.8)
  arc A2 (-2, 31.8) -> (-2, 6.8) centre (-2, 19.3) ccw
  line L8 (-2, 19.3) -> (2, 19.3) construction
  arc A3 (2, -31.8) -> (2, -6.8) centre (2, -19.3) ccw
  arc A4 (-2, -6.8) -> (-2, -31.8) centre (-2, -19.3) ccw
  line L9 (-2, -6.8) -> (2, -6.8)
  line L10 (2, -31.8) -> (-2, -31.8)
  circle A5 centre (0, 34.5) radius 1.5
  circle A6 centre (0, -34.5) radius 1.5
  point P0 (0, 19.3)
  dimension "d209" = 16
  dimension "d210" = 12.5
  dimension "d211" = 4
  dimension "d212" = 19.3
  dimension "d215" = 3
  dimension "d216" = 34.5
ref_plane "Plano de trabalho13" through (0, 0, 55.7) normal (0, 0, -1) x (-1, 0, 0)
ref_plane "Plano de trabalho14" through (0, 0, 60) normal (0, 0, 1) x (1, 0, 0)
sketch "Esboço25" plane through (0, 0, 55.7) normal (0, 0, -1) x (1, 0, 0)
  line L0 (-33.3617, 16) -> (33.3617, 16)
  circle A0 centre (0, 0) radius 37
  line L1 (0, 0) -> (-19.3, 0) construction
  line L2 (-33.3617, -16) -> (33.3617, -16)
  line L3 (-6.8, -2) -> (-6.8, 2)
  arc A1 (-6.8, 2) -> (-31.8, 2) centre (-19.3, 2) ccw
  line L4 (-31.8, 2) -> (-31.8, -2)
  arc A2 (-31.8, -2) -> (-6.8, -2) centre (-19.3, -2) ccw
  line L5 (-19.3, -2) -> (-19.3, 2) construction
  circle A3 centre (-34.5, 0) radius 1.5
  line L6 (0, 0) -> (0, -12) construction
  arc A4 (31.8, 2) -> (6.8, 2) centre (19.3, 2) ccw
  line L7 (6.8, -2) -> (6.8, 2)
  arc A5 (6.8, -2) -> (31.8, -2) centre (19.3, -2) ccw
  circle A6 centre (34.5, 0) radius 1.5
  line L8 (31.8, 2) -> (31.8, -2)
  point P0 (-19.3, 0)
  dimension "d219" = 16
  dimension "d220" = 12.5
  dimension "d221" = 4
  dimension "d222" = 19.3
  dimension "d224" = 34.5
  dimension "d225" = 3
ref_plane "Plano de trabalho15" through (0, 0, 20) normal (0, 0, 1) x (1, 0, 0)
ref_plane "Plano de trabalho16" through (0, 0, 26) normal (0, 0, 1) x (1, 0, 0)
sketch "Esboço26" plane through (0, 0, 26) normal (0, 0, 1) x (1, 0, 0)
  circle A0 centre (0, 0) radius 48.8008
extrude "Extrusão32" cut sketch "Esboço26" along normal blind 200
sketch "Esboço27" plane through (0, 0, 20) normal (0, 0, 1) x (1, 0, 0)
  circle A0 centre (0, 0) radius 48.182
extrude "Extrusão33" cut sketch "Esboço27" against normal blind 100
